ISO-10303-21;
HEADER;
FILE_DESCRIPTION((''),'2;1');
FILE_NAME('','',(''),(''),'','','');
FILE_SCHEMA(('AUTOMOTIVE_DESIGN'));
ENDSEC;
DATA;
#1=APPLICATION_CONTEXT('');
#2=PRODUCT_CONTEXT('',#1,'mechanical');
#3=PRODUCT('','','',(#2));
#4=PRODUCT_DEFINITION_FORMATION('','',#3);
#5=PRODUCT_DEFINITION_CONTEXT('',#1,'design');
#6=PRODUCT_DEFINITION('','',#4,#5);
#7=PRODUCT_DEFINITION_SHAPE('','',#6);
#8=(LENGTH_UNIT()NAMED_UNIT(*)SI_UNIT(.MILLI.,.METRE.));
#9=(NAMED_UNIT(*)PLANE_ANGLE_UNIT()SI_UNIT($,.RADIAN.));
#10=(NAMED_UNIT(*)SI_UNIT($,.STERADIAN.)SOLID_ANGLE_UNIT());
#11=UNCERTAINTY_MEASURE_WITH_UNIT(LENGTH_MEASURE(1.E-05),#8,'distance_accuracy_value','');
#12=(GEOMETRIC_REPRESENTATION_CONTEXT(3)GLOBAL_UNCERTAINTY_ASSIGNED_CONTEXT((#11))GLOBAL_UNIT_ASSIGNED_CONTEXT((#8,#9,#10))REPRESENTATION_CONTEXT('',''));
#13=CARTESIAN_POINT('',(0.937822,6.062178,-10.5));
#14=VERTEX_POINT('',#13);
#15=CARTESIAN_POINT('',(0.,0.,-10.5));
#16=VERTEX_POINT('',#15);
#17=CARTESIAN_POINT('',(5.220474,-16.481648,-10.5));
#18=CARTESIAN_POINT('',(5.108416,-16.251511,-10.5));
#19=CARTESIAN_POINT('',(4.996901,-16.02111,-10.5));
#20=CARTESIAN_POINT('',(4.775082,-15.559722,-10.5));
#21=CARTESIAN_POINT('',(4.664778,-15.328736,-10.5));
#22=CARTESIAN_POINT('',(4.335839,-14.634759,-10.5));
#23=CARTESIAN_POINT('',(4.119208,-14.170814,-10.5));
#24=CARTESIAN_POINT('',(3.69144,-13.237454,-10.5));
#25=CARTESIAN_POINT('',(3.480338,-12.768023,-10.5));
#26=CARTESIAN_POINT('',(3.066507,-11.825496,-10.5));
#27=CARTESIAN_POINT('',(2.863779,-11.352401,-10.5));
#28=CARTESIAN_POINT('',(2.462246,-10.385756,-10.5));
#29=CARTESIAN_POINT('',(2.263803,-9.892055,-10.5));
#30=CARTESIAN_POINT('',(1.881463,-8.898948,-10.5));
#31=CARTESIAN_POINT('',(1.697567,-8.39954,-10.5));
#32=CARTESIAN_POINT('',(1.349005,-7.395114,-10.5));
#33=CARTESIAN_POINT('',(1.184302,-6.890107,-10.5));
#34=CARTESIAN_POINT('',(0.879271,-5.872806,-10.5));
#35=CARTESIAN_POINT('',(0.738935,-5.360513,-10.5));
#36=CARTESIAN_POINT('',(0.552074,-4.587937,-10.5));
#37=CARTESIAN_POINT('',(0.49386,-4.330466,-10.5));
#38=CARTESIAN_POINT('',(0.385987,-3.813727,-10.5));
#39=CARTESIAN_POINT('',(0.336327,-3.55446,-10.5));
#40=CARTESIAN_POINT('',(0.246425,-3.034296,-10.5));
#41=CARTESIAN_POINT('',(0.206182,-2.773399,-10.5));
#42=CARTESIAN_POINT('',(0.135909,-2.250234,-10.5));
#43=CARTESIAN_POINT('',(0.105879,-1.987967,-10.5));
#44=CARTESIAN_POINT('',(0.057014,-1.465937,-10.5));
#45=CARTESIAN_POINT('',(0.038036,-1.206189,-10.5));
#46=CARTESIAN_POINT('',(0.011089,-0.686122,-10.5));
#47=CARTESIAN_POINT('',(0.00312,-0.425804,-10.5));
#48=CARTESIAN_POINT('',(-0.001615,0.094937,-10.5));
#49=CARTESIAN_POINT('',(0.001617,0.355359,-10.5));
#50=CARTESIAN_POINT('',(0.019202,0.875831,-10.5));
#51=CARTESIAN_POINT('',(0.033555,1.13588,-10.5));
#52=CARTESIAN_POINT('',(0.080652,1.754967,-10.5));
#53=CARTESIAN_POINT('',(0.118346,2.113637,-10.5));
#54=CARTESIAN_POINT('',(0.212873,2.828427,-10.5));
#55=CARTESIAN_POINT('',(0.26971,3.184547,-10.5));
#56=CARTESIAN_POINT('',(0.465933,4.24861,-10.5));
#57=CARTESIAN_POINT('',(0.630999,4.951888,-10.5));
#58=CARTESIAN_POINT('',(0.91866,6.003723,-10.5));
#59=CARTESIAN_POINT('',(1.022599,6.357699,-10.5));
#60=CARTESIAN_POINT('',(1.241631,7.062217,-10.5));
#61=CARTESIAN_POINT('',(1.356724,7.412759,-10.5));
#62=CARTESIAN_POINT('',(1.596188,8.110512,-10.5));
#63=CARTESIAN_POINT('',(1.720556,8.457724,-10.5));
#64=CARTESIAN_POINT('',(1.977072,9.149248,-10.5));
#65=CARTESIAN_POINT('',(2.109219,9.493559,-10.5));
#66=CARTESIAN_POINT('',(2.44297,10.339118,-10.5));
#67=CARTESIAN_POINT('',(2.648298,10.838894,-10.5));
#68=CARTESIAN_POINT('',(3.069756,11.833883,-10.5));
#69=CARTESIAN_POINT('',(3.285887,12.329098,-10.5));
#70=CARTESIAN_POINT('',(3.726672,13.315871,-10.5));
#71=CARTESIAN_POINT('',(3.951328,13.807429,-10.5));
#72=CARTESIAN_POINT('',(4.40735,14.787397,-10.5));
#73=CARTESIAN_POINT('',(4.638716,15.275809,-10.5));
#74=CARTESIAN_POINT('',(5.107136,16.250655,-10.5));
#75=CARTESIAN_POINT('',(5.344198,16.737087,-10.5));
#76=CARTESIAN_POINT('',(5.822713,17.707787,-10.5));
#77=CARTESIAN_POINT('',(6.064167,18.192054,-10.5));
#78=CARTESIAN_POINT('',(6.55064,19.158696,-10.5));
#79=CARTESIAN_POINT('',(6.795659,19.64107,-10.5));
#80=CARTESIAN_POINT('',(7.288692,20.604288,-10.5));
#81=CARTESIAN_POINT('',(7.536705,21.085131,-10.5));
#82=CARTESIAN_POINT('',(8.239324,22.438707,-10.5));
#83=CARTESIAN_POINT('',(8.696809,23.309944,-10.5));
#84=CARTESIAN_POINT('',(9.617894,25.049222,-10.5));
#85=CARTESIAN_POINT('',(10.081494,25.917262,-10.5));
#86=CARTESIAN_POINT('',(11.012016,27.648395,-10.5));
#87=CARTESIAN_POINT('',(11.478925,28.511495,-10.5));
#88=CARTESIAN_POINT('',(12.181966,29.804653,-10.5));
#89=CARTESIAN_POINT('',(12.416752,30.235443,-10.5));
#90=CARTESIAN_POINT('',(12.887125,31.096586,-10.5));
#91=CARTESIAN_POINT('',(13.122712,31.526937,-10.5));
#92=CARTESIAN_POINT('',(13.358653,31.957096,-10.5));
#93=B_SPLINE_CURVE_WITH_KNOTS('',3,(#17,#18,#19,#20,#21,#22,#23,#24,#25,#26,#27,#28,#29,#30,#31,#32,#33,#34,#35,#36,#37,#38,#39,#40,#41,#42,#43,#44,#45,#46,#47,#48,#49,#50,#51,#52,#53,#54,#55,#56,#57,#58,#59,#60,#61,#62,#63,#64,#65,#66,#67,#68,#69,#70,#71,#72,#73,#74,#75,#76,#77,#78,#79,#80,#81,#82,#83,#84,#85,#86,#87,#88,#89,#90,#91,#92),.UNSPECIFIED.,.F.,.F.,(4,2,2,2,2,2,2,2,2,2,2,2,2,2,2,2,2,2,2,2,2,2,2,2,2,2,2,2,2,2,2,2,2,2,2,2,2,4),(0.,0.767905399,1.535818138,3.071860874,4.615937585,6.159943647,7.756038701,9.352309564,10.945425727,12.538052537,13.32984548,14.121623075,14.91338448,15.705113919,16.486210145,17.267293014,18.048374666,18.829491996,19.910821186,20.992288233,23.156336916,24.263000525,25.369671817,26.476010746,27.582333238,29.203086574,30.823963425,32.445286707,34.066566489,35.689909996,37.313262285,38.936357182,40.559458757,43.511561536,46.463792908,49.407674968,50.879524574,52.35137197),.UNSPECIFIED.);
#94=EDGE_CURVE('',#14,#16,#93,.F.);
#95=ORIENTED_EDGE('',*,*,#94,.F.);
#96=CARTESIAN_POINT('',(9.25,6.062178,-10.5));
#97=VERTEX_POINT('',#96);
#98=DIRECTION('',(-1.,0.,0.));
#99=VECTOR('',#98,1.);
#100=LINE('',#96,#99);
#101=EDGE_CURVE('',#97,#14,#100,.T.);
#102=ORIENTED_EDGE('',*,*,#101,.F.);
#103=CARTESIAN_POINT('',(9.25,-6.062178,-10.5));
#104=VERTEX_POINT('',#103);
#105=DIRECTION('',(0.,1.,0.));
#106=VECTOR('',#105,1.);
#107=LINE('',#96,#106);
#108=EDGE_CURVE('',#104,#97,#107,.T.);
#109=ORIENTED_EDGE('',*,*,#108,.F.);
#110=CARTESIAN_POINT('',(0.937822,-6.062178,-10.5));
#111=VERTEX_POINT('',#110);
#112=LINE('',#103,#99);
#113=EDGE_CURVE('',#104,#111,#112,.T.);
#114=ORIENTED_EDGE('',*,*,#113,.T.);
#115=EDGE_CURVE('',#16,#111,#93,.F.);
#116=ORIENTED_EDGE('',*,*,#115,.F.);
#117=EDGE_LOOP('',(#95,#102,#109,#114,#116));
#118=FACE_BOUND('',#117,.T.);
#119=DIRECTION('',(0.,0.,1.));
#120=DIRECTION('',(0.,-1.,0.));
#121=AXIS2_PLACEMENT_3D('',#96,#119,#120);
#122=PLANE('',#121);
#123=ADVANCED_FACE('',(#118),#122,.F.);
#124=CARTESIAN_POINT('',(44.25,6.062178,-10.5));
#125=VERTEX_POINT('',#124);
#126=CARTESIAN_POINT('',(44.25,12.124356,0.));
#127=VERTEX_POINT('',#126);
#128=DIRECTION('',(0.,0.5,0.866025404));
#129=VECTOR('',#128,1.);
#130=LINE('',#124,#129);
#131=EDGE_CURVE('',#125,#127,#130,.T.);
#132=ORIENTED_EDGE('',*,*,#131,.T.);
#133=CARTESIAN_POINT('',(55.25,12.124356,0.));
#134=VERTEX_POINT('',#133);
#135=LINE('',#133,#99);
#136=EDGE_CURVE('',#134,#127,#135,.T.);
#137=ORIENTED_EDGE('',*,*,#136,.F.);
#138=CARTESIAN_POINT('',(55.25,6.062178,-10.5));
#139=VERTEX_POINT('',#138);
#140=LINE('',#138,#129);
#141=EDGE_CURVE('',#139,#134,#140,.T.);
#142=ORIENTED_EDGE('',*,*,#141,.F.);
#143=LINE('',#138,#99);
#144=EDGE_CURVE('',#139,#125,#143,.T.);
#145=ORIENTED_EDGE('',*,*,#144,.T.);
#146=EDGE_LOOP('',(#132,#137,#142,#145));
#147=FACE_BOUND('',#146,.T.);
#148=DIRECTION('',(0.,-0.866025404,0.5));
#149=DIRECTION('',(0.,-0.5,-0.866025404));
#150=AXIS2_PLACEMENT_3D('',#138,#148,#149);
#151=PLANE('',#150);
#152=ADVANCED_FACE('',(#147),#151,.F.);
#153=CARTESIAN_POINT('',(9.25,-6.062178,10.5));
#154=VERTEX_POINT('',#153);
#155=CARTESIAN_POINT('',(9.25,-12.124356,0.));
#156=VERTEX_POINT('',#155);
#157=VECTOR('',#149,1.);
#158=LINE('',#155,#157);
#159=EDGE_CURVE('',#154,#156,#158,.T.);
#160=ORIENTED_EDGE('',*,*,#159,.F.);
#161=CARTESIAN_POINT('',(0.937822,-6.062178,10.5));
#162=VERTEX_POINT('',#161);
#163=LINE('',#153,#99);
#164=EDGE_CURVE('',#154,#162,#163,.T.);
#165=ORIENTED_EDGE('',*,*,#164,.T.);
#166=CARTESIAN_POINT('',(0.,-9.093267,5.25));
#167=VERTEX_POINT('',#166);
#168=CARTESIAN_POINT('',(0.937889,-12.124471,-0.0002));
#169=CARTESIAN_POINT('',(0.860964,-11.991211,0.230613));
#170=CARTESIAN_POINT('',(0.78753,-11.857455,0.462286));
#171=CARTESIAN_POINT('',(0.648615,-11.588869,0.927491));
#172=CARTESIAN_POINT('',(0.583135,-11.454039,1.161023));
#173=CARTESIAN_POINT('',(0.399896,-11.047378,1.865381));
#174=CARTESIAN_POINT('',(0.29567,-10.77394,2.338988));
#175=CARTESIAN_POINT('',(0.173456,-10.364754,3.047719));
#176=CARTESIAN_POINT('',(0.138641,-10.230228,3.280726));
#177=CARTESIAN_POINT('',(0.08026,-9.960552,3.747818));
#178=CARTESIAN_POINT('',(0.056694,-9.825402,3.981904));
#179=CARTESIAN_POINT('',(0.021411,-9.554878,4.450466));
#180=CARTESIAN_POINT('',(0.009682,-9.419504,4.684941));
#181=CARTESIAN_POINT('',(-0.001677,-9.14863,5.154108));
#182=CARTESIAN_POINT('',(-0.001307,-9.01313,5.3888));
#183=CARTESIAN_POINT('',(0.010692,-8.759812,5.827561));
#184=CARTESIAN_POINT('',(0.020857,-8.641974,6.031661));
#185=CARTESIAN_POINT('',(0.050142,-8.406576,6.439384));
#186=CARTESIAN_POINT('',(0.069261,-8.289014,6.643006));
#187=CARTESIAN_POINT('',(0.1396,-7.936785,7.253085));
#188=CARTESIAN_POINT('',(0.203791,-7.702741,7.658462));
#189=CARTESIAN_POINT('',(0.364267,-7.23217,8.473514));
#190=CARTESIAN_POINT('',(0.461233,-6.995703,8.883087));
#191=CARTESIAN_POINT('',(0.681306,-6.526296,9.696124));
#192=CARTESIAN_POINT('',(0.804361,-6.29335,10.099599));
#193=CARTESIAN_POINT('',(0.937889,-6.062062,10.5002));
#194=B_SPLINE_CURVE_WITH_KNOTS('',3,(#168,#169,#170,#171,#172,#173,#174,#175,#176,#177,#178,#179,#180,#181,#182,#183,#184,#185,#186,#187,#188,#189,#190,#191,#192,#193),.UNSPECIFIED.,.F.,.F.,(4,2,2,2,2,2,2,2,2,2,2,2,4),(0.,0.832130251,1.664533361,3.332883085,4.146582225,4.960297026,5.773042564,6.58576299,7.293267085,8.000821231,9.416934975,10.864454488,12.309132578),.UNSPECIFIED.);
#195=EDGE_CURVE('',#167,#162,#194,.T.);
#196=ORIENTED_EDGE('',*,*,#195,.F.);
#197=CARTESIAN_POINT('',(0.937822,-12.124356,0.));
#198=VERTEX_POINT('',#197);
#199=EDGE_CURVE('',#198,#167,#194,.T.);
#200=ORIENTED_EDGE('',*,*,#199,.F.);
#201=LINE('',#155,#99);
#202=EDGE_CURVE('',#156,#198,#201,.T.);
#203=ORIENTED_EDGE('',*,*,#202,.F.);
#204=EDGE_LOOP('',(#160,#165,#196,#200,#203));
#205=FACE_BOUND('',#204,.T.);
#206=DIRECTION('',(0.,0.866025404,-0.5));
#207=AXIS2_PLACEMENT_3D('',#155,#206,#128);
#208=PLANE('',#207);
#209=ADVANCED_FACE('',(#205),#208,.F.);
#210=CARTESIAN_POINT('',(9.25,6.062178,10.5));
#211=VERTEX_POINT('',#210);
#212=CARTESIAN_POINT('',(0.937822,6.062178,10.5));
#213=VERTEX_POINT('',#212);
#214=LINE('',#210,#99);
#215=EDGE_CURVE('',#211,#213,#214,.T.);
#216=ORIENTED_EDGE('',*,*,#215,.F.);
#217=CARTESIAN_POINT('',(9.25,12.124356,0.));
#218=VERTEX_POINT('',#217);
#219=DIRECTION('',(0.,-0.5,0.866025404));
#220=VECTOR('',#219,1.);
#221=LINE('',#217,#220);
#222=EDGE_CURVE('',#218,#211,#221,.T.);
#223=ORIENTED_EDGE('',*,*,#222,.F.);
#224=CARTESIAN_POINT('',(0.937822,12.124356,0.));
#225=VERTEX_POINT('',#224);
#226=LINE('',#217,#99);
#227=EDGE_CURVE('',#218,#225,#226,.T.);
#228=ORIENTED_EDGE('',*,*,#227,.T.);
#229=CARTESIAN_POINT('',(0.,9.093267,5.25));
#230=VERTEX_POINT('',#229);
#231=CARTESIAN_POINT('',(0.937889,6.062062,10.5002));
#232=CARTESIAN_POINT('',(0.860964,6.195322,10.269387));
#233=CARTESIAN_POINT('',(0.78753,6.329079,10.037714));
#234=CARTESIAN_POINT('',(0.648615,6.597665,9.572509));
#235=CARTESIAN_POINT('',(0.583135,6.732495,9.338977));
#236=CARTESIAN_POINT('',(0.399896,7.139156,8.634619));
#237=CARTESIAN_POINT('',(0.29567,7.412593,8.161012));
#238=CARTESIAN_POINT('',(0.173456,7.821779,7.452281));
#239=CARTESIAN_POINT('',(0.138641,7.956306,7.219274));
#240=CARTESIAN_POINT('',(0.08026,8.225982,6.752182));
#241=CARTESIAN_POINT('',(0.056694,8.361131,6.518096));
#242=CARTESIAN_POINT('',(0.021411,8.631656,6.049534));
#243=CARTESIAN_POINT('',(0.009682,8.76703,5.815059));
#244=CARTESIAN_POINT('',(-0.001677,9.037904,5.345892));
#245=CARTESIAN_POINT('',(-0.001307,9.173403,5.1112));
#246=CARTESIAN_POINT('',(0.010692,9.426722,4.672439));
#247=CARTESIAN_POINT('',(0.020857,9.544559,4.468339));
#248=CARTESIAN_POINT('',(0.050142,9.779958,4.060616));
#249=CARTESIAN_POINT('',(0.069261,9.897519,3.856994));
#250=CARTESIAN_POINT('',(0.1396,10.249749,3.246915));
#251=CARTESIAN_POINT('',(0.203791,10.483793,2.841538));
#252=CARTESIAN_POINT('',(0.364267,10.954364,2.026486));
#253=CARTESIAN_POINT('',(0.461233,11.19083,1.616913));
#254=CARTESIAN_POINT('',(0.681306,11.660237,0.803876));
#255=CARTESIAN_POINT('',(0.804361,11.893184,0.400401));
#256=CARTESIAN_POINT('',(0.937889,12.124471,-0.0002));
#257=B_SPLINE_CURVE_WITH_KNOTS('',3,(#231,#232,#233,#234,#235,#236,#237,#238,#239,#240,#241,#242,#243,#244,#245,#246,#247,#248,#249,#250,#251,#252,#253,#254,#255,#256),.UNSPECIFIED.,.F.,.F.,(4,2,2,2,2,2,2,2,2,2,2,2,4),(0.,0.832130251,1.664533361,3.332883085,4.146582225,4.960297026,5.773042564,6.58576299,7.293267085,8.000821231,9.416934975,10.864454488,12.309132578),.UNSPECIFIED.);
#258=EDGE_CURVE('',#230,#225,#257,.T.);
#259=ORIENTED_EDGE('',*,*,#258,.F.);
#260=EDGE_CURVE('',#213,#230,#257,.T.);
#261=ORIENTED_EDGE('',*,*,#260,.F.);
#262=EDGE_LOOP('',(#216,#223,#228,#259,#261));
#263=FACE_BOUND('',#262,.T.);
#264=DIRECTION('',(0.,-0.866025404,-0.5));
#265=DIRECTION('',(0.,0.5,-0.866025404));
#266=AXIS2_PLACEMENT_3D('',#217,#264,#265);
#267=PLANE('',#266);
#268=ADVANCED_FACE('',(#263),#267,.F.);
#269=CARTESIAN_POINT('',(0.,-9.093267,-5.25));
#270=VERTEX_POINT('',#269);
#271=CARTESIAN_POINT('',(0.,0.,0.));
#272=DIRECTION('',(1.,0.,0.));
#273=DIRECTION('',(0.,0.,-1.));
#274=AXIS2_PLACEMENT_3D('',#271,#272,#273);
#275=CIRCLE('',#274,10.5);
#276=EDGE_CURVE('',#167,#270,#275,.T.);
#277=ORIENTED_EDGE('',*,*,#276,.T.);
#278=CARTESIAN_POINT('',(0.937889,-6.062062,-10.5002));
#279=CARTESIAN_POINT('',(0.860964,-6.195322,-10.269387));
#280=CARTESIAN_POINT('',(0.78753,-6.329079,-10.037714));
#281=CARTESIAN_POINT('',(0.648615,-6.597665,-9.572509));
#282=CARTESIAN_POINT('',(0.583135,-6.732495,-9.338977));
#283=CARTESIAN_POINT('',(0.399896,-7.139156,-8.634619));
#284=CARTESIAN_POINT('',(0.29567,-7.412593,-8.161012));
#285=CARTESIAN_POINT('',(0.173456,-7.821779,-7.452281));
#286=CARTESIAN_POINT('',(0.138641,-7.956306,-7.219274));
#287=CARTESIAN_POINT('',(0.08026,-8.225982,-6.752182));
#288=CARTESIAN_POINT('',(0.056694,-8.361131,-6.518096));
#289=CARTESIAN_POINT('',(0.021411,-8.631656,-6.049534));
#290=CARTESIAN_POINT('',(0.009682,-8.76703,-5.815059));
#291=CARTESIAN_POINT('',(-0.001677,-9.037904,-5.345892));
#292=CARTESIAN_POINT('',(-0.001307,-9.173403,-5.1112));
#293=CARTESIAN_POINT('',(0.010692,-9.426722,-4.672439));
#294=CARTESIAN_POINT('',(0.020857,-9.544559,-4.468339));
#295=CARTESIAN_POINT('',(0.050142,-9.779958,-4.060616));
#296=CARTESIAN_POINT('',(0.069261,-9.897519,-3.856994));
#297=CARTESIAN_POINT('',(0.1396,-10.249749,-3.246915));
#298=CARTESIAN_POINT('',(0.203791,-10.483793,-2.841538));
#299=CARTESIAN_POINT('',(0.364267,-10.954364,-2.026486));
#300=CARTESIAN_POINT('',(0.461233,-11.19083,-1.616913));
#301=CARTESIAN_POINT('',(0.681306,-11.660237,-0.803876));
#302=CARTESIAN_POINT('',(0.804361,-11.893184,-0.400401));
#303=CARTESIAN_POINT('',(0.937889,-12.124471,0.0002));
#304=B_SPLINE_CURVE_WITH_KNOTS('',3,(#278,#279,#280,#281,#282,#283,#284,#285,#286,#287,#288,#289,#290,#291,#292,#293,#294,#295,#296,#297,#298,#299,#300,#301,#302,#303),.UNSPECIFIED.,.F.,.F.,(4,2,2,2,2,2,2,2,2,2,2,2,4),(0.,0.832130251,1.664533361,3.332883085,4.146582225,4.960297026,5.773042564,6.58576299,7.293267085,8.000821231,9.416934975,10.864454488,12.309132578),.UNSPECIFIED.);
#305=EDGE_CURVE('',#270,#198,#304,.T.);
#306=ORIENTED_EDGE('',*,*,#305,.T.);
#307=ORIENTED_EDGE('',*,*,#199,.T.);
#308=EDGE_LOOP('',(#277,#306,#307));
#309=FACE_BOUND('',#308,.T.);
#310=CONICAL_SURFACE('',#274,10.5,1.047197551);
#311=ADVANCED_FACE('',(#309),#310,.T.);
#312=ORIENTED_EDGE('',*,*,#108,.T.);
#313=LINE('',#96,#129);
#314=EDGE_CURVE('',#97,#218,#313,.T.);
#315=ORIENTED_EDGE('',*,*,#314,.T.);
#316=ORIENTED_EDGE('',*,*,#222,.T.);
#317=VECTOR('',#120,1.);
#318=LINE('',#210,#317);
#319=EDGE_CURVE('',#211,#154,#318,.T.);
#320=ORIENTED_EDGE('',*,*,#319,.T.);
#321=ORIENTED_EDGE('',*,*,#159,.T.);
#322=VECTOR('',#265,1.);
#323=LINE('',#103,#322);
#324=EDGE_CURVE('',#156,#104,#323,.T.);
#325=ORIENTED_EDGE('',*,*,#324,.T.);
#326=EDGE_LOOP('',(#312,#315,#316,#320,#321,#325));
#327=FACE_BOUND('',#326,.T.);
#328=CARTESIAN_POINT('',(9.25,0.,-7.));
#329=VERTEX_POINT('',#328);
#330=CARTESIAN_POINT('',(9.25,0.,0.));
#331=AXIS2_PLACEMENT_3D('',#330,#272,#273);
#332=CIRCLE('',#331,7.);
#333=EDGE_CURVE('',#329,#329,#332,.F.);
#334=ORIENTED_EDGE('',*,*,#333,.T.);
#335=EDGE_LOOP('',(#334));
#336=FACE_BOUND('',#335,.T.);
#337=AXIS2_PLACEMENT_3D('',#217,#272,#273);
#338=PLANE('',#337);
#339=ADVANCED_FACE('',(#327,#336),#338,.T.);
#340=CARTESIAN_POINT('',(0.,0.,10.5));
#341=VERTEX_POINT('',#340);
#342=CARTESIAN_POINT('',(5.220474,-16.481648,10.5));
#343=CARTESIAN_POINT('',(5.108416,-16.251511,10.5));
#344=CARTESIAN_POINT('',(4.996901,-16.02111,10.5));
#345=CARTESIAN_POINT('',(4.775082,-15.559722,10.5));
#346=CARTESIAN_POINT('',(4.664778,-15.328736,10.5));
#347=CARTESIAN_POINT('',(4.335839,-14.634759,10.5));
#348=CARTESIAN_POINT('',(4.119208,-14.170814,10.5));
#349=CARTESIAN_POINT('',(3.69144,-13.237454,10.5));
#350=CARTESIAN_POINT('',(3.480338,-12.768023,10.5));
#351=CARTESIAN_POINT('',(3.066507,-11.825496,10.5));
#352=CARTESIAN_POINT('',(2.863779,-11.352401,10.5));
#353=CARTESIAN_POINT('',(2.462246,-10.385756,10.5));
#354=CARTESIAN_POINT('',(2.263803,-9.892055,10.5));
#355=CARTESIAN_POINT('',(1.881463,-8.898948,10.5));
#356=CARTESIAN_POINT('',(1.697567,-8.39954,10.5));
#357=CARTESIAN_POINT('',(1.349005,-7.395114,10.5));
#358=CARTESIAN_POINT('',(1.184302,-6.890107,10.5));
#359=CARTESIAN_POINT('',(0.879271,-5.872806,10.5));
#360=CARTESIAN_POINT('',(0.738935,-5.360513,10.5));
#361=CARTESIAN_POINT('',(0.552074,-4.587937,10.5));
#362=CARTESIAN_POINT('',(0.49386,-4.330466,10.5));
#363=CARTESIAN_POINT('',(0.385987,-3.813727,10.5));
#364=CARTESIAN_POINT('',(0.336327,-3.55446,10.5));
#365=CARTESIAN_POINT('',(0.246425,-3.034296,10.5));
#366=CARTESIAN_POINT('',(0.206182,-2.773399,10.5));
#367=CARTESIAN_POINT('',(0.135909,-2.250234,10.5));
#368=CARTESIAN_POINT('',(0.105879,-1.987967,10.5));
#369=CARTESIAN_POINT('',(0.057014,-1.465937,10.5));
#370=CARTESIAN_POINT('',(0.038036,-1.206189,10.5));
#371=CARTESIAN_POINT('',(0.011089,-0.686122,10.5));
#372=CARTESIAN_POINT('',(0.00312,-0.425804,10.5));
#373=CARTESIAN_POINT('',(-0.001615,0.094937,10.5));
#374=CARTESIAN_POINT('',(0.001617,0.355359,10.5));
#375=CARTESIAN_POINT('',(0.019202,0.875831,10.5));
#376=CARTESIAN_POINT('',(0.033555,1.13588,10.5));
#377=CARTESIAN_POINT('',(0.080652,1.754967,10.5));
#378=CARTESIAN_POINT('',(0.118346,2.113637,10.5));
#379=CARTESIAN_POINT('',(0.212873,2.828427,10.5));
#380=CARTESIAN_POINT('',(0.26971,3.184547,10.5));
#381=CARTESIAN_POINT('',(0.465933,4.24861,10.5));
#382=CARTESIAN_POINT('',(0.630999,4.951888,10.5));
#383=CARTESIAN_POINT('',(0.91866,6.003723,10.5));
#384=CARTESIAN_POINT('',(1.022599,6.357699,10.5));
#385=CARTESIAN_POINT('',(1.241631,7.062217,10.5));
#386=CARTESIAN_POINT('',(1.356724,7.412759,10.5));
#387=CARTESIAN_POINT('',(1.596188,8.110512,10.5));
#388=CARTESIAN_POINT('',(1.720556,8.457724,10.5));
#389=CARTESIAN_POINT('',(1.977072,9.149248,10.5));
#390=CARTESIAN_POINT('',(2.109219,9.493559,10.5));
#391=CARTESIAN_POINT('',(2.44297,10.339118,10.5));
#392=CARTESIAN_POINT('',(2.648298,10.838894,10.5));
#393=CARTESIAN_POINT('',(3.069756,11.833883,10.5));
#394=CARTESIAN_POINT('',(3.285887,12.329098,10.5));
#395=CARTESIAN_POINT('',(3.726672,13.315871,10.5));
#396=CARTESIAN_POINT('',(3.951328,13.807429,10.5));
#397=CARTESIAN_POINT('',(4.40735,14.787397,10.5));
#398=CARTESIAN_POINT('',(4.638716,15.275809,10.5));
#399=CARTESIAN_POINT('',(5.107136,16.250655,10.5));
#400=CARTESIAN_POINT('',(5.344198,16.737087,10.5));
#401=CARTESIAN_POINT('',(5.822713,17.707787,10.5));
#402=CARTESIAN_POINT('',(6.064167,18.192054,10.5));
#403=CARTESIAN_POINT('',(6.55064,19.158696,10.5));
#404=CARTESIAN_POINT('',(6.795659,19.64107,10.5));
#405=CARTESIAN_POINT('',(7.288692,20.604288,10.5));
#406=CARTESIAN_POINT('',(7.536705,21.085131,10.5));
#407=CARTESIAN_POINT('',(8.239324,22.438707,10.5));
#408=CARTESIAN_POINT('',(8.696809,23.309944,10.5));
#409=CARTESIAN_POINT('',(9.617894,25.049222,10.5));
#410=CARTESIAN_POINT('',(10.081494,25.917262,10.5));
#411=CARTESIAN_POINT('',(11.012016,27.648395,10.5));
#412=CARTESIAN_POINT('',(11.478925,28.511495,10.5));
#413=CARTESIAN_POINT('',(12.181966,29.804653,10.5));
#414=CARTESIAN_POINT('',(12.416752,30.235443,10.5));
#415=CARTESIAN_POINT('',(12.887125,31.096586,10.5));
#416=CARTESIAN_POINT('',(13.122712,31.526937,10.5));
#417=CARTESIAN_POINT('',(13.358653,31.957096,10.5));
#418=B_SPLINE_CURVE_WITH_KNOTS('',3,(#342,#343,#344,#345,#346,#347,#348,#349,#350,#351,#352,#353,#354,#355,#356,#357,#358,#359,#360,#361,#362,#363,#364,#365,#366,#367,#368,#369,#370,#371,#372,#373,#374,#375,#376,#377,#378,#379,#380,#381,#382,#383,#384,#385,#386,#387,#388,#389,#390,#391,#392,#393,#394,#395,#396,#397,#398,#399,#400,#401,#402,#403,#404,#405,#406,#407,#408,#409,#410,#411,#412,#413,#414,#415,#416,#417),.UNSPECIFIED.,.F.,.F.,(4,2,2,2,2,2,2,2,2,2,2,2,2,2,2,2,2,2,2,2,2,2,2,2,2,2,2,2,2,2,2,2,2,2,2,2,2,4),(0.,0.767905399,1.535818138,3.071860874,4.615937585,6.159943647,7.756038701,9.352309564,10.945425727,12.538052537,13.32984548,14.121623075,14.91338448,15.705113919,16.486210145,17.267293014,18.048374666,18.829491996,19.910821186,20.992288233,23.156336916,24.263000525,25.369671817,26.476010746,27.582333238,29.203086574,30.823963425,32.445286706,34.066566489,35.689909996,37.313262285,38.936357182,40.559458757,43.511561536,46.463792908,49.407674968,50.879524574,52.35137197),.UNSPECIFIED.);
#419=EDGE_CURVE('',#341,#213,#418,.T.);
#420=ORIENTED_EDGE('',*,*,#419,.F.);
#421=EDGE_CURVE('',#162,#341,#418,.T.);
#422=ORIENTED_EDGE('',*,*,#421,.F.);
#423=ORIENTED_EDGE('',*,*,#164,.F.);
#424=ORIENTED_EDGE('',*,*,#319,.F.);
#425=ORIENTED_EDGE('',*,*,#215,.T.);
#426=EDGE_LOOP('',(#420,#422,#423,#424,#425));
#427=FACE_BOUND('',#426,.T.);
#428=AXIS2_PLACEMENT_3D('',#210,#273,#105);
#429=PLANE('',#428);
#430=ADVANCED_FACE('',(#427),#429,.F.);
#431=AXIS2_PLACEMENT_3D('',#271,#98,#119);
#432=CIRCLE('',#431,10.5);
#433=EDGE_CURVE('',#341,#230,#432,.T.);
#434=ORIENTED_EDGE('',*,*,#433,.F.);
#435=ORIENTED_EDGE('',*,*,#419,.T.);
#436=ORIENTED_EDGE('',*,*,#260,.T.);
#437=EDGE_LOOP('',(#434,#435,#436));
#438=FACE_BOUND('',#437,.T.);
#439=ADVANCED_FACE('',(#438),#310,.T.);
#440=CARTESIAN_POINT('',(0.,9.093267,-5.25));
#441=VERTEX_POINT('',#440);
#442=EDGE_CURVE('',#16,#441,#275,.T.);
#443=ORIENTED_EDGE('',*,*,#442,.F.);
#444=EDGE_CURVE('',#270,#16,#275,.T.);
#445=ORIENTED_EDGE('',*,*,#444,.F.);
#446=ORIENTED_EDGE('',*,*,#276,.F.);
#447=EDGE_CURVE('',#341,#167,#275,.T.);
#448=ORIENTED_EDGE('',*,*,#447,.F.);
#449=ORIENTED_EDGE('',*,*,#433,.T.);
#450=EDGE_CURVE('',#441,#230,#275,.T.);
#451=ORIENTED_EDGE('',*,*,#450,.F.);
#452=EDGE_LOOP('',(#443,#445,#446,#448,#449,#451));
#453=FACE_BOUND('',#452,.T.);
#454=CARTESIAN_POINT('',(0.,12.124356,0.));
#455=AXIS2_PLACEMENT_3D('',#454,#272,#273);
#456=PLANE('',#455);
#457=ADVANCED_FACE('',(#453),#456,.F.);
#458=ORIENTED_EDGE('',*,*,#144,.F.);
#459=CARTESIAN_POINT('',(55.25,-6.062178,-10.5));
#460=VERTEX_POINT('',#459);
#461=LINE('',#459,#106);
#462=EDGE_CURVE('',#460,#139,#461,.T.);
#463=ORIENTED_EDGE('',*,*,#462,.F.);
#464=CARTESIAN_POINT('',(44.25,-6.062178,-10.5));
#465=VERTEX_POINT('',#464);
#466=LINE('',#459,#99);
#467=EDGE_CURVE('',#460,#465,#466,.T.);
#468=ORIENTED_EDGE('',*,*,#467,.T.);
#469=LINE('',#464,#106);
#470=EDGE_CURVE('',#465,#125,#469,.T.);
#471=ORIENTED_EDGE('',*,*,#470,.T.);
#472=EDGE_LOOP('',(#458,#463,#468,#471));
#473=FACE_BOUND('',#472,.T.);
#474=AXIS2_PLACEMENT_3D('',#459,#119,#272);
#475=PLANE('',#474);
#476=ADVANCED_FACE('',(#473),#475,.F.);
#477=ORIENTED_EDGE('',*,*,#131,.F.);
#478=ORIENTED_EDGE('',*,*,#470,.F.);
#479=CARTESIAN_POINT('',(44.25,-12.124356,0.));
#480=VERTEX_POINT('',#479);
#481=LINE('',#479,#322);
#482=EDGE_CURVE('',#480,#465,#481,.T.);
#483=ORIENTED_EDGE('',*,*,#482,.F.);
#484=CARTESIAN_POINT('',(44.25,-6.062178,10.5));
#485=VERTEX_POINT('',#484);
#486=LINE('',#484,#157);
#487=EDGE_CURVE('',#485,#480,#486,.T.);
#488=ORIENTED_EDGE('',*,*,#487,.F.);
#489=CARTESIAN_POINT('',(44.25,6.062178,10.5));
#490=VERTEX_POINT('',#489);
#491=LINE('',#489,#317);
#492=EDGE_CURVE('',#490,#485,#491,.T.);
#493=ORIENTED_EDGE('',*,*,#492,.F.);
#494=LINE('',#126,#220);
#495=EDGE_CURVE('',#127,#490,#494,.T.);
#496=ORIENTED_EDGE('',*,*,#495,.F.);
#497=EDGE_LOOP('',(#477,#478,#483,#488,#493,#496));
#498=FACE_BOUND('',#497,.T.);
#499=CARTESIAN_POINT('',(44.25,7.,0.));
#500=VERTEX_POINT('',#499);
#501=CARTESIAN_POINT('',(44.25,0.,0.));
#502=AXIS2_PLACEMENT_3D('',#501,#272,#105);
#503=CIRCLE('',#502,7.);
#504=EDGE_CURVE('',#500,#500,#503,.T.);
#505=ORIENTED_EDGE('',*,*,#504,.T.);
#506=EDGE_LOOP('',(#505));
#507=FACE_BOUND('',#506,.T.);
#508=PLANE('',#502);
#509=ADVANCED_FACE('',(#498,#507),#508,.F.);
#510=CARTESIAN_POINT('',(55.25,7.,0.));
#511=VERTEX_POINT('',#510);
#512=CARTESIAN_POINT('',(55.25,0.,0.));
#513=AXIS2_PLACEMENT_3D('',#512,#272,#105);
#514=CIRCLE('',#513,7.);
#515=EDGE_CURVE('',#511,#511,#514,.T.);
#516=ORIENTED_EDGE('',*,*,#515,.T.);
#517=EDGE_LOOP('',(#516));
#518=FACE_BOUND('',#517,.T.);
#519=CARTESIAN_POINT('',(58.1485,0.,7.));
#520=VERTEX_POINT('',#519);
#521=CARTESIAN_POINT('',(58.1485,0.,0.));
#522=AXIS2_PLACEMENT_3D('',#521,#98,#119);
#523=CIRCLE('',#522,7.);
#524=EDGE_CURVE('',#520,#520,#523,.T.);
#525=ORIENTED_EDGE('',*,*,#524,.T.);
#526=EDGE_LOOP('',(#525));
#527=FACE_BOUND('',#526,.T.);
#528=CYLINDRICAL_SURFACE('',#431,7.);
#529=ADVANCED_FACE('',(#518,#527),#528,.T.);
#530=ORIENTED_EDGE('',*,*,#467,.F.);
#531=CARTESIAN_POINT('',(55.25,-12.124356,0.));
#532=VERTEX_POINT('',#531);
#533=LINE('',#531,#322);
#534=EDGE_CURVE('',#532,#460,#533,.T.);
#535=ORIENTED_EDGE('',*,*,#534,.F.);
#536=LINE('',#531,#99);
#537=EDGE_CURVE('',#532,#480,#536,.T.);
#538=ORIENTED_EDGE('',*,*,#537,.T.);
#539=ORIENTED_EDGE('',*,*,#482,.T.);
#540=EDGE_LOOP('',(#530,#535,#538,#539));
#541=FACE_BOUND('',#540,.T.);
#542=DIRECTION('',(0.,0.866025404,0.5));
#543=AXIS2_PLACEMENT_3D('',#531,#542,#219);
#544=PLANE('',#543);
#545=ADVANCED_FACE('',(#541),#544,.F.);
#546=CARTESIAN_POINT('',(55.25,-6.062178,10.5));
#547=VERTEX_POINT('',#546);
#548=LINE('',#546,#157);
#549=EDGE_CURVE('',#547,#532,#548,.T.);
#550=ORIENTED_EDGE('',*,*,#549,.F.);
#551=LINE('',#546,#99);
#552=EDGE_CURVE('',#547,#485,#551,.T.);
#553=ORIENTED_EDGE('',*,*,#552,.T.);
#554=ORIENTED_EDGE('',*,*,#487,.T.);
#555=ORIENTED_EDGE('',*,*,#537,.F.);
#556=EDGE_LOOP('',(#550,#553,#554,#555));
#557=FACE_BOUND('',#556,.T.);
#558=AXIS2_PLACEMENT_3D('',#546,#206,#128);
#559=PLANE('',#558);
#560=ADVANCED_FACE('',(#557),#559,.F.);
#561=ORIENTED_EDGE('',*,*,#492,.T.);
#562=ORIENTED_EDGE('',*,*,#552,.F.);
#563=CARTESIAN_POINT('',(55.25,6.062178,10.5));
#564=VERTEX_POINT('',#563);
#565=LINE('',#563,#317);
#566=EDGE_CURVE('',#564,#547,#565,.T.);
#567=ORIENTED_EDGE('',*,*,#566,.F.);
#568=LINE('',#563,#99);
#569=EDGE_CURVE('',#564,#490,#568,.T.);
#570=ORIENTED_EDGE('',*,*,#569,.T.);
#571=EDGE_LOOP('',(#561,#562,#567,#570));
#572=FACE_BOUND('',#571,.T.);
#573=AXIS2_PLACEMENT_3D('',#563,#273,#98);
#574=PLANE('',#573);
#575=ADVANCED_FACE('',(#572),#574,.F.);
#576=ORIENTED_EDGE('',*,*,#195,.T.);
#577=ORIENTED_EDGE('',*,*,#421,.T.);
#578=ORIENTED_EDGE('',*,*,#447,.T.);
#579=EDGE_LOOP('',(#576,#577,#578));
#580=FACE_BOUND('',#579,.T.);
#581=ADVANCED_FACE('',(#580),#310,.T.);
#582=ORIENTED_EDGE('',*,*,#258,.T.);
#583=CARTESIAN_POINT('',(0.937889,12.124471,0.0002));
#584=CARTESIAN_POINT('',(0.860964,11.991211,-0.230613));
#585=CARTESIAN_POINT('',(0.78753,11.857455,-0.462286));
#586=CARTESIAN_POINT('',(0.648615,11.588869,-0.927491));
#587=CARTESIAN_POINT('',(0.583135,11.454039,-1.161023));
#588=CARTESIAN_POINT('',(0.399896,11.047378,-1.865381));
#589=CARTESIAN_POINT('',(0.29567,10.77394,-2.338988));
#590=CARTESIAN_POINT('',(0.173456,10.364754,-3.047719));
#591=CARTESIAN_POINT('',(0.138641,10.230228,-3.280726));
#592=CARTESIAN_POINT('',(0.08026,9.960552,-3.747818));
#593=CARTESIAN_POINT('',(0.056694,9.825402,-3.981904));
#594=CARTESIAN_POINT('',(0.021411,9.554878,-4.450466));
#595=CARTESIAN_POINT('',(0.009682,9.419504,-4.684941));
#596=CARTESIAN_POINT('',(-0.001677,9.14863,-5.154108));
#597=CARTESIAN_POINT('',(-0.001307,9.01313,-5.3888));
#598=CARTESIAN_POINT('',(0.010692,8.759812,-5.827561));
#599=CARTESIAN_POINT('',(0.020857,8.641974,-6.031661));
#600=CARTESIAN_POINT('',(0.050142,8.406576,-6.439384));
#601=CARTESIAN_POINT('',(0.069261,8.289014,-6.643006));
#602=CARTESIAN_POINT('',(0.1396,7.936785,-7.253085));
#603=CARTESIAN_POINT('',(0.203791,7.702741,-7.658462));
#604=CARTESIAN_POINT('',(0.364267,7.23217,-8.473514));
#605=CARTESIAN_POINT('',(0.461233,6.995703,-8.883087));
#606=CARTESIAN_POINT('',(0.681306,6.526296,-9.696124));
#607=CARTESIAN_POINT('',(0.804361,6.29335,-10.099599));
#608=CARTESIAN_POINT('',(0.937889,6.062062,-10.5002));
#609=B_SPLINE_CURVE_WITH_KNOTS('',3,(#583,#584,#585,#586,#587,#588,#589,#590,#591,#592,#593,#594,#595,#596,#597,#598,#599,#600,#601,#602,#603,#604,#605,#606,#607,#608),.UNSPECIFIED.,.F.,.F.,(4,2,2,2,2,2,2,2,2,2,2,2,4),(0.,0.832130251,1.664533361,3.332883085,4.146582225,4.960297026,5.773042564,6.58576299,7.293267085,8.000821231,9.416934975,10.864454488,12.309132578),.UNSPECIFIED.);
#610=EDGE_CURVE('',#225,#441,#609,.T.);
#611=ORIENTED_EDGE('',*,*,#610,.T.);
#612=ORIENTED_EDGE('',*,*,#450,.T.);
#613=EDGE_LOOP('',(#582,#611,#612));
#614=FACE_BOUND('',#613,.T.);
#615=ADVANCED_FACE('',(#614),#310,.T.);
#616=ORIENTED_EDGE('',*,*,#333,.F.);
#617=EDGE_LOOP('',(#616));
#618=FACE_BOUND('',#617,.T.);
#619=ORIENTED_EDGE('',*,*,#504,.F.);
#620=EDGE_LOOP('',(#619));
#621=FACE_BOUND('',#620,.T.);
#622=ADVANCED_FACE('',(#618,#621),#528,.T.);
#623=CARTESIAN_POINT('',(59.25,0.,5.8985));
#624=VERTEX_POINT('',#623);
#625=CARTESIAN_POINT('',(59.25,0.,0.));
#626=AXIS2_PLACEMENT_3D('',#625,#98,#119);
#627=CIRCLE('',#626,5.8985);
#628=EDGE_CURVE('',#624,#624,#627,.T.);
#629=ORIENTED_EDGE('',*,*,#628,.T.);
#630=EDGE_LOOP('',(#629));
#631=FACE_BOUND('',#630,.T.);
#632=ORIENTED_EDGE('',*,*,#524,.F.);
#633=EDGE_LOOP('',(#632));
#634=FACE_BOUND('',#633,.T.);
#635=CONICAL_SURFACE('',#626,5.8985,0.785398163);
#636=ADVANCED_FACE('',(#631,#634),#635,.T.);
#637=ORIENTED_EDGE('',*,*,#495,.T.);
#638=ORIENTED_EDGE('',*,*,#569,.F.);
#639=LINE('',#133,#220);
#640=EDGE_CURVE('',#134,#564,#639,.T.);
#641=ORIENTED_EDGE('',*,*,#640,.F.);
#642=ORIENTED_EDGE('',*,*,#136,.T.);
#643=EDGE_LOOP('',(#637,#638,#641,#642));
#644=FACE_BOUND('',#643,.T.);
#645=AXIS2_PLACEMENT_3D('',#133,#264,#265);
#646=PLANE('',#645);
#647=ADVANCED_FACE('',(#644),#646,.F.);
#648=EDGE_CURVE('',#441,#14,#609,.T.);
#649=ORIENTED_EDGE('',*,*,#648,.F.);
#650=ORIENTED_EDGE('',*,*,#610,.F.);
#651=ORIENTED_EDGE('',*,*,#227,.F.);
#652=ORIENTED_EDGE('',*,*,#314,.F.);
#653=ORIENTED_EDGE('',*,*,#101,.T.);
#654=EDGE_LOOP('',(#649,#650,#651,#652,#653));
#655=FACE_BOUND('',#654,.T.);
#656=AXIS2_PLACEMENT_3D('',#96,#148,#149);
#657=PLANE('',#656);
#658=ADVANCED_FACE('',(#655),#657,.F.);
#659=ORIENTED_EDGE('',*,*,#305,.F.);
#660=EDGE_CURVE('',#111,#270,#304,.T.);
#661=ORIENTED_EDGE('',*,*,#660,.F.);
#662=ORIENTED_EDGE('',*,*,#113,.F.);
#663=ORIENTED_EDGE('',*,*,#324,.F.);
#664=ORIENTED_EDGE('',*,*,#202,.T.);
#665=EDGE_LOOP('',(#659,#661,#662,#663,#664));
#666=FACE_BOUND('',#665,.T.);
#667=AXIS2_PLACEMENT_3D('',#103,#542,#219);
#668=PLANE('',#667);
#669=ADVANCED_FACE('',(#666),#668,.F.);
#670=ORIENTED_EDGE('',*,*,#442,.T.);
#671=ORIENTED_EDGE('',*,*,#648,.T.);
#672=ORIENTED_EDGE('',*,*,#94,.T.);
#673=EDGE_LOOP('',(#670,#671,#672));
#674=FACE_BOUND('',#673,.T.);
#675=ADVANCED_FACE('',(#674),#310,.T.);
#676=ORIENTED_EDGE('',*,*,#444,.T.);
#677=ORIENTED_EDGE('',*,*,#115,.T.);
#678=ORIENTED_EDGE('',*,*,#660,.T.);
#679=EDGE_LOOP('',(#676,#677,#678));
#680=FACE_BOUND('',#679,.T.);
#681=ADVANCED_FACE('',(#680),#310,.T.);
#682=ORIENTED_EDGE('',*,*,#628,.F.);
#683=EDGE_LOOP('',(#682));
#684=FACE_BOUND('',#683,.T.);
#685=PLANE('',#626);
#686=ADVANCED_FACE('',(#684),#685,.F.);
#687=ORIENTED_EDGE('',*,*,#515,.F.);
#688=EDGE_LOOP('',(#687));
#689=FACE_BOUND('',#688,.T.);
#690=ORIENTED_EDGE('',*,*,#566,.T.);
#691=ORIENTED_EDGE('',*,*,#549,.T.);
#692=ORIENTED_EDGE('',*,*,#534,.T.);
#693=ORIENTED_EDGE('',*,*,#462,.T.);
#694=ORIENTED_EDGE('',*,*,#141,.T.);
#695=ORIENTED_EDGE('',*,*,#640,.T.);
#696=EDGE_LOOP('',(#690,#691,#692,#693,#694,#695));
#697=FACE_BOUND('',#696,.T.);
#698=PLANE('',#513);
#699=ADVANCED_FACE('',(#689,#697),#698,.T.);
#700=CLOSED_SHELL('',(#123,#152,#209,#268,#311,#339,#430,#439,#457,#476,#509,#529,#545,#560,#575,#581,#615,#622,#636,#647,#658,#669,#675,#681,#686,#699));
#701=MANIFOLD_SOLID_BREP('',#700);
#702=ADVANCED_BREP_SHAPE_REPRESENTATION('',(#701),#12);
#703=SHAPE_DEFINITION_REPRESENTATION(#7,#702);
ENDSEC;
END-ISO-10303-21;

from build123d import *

# Parameters (mm, degrees)
BASEHEAD_DEPTH      = 9.25
BOSS_EXTRUDE1_DEPTH = 11


with BuildPart() as part:
    # Sketch1 → BaseHead (new body)
    with BuildSketch(Plane(origin=(0, 0, 0), x_dir=(0, 0, -1), z_dir=(1, 0, 0))):
        Polygon((10.5, 6.062177826), (10.5, -6.062177826), (0, -12.124355653), (-10.5, -6.062177826), (-10.5, 6.062177826), (0, 12.124355653), align=None)
    extrude(amount=BASEHEAD_DEPTH)

    # BodySke → BaseBody (revolve)
    with BuildSketch(Plane.XY, mode=Mode.PRIVATE) as basebody_sk:
        Polygon((0, 0), (59.25, 0), (59.25, 5.8985), (58.1485, 7), (0, 7), align=None)
    revolve(basebody_sk.sketch.rotate(Axis((0, 0, 0), (1, 0, 0)), 90), axis=Axis((0, 0, 0), (1, 0, 0)))

    # Sketch3 → HeadChamfer (revolve, cut)
    with BuildSketch(Plane.XY):
        Polygon((0, 10.5), (3.824573519, 17.124355653), (3.824573519, 22.124355653), (-10, 22.124355653), (-10, 10.5), align=None)
    revolve(axis=Axis((0, 0, 0), (1, 0, 0)), mode=Mode.SUBTRACT)

    # Sketch4 → Boss-Extrude1 (add)
    with BuildSketch(Plane(origin=(44.25, 0, 0), x_dir=(0, 0, -1), z_dir=(1, 0, 0))):
        Polygon((0, 12.124355653), (-10.5, 6.062177826), (-10.5, -6.062177826), (0, -12.124355653), (10.5, -6.062177826), (10.5, 6.062177826), align=None)
    extrude(amount=BOSS_EXTRUDE1_DEPTH)


solid = part.part
